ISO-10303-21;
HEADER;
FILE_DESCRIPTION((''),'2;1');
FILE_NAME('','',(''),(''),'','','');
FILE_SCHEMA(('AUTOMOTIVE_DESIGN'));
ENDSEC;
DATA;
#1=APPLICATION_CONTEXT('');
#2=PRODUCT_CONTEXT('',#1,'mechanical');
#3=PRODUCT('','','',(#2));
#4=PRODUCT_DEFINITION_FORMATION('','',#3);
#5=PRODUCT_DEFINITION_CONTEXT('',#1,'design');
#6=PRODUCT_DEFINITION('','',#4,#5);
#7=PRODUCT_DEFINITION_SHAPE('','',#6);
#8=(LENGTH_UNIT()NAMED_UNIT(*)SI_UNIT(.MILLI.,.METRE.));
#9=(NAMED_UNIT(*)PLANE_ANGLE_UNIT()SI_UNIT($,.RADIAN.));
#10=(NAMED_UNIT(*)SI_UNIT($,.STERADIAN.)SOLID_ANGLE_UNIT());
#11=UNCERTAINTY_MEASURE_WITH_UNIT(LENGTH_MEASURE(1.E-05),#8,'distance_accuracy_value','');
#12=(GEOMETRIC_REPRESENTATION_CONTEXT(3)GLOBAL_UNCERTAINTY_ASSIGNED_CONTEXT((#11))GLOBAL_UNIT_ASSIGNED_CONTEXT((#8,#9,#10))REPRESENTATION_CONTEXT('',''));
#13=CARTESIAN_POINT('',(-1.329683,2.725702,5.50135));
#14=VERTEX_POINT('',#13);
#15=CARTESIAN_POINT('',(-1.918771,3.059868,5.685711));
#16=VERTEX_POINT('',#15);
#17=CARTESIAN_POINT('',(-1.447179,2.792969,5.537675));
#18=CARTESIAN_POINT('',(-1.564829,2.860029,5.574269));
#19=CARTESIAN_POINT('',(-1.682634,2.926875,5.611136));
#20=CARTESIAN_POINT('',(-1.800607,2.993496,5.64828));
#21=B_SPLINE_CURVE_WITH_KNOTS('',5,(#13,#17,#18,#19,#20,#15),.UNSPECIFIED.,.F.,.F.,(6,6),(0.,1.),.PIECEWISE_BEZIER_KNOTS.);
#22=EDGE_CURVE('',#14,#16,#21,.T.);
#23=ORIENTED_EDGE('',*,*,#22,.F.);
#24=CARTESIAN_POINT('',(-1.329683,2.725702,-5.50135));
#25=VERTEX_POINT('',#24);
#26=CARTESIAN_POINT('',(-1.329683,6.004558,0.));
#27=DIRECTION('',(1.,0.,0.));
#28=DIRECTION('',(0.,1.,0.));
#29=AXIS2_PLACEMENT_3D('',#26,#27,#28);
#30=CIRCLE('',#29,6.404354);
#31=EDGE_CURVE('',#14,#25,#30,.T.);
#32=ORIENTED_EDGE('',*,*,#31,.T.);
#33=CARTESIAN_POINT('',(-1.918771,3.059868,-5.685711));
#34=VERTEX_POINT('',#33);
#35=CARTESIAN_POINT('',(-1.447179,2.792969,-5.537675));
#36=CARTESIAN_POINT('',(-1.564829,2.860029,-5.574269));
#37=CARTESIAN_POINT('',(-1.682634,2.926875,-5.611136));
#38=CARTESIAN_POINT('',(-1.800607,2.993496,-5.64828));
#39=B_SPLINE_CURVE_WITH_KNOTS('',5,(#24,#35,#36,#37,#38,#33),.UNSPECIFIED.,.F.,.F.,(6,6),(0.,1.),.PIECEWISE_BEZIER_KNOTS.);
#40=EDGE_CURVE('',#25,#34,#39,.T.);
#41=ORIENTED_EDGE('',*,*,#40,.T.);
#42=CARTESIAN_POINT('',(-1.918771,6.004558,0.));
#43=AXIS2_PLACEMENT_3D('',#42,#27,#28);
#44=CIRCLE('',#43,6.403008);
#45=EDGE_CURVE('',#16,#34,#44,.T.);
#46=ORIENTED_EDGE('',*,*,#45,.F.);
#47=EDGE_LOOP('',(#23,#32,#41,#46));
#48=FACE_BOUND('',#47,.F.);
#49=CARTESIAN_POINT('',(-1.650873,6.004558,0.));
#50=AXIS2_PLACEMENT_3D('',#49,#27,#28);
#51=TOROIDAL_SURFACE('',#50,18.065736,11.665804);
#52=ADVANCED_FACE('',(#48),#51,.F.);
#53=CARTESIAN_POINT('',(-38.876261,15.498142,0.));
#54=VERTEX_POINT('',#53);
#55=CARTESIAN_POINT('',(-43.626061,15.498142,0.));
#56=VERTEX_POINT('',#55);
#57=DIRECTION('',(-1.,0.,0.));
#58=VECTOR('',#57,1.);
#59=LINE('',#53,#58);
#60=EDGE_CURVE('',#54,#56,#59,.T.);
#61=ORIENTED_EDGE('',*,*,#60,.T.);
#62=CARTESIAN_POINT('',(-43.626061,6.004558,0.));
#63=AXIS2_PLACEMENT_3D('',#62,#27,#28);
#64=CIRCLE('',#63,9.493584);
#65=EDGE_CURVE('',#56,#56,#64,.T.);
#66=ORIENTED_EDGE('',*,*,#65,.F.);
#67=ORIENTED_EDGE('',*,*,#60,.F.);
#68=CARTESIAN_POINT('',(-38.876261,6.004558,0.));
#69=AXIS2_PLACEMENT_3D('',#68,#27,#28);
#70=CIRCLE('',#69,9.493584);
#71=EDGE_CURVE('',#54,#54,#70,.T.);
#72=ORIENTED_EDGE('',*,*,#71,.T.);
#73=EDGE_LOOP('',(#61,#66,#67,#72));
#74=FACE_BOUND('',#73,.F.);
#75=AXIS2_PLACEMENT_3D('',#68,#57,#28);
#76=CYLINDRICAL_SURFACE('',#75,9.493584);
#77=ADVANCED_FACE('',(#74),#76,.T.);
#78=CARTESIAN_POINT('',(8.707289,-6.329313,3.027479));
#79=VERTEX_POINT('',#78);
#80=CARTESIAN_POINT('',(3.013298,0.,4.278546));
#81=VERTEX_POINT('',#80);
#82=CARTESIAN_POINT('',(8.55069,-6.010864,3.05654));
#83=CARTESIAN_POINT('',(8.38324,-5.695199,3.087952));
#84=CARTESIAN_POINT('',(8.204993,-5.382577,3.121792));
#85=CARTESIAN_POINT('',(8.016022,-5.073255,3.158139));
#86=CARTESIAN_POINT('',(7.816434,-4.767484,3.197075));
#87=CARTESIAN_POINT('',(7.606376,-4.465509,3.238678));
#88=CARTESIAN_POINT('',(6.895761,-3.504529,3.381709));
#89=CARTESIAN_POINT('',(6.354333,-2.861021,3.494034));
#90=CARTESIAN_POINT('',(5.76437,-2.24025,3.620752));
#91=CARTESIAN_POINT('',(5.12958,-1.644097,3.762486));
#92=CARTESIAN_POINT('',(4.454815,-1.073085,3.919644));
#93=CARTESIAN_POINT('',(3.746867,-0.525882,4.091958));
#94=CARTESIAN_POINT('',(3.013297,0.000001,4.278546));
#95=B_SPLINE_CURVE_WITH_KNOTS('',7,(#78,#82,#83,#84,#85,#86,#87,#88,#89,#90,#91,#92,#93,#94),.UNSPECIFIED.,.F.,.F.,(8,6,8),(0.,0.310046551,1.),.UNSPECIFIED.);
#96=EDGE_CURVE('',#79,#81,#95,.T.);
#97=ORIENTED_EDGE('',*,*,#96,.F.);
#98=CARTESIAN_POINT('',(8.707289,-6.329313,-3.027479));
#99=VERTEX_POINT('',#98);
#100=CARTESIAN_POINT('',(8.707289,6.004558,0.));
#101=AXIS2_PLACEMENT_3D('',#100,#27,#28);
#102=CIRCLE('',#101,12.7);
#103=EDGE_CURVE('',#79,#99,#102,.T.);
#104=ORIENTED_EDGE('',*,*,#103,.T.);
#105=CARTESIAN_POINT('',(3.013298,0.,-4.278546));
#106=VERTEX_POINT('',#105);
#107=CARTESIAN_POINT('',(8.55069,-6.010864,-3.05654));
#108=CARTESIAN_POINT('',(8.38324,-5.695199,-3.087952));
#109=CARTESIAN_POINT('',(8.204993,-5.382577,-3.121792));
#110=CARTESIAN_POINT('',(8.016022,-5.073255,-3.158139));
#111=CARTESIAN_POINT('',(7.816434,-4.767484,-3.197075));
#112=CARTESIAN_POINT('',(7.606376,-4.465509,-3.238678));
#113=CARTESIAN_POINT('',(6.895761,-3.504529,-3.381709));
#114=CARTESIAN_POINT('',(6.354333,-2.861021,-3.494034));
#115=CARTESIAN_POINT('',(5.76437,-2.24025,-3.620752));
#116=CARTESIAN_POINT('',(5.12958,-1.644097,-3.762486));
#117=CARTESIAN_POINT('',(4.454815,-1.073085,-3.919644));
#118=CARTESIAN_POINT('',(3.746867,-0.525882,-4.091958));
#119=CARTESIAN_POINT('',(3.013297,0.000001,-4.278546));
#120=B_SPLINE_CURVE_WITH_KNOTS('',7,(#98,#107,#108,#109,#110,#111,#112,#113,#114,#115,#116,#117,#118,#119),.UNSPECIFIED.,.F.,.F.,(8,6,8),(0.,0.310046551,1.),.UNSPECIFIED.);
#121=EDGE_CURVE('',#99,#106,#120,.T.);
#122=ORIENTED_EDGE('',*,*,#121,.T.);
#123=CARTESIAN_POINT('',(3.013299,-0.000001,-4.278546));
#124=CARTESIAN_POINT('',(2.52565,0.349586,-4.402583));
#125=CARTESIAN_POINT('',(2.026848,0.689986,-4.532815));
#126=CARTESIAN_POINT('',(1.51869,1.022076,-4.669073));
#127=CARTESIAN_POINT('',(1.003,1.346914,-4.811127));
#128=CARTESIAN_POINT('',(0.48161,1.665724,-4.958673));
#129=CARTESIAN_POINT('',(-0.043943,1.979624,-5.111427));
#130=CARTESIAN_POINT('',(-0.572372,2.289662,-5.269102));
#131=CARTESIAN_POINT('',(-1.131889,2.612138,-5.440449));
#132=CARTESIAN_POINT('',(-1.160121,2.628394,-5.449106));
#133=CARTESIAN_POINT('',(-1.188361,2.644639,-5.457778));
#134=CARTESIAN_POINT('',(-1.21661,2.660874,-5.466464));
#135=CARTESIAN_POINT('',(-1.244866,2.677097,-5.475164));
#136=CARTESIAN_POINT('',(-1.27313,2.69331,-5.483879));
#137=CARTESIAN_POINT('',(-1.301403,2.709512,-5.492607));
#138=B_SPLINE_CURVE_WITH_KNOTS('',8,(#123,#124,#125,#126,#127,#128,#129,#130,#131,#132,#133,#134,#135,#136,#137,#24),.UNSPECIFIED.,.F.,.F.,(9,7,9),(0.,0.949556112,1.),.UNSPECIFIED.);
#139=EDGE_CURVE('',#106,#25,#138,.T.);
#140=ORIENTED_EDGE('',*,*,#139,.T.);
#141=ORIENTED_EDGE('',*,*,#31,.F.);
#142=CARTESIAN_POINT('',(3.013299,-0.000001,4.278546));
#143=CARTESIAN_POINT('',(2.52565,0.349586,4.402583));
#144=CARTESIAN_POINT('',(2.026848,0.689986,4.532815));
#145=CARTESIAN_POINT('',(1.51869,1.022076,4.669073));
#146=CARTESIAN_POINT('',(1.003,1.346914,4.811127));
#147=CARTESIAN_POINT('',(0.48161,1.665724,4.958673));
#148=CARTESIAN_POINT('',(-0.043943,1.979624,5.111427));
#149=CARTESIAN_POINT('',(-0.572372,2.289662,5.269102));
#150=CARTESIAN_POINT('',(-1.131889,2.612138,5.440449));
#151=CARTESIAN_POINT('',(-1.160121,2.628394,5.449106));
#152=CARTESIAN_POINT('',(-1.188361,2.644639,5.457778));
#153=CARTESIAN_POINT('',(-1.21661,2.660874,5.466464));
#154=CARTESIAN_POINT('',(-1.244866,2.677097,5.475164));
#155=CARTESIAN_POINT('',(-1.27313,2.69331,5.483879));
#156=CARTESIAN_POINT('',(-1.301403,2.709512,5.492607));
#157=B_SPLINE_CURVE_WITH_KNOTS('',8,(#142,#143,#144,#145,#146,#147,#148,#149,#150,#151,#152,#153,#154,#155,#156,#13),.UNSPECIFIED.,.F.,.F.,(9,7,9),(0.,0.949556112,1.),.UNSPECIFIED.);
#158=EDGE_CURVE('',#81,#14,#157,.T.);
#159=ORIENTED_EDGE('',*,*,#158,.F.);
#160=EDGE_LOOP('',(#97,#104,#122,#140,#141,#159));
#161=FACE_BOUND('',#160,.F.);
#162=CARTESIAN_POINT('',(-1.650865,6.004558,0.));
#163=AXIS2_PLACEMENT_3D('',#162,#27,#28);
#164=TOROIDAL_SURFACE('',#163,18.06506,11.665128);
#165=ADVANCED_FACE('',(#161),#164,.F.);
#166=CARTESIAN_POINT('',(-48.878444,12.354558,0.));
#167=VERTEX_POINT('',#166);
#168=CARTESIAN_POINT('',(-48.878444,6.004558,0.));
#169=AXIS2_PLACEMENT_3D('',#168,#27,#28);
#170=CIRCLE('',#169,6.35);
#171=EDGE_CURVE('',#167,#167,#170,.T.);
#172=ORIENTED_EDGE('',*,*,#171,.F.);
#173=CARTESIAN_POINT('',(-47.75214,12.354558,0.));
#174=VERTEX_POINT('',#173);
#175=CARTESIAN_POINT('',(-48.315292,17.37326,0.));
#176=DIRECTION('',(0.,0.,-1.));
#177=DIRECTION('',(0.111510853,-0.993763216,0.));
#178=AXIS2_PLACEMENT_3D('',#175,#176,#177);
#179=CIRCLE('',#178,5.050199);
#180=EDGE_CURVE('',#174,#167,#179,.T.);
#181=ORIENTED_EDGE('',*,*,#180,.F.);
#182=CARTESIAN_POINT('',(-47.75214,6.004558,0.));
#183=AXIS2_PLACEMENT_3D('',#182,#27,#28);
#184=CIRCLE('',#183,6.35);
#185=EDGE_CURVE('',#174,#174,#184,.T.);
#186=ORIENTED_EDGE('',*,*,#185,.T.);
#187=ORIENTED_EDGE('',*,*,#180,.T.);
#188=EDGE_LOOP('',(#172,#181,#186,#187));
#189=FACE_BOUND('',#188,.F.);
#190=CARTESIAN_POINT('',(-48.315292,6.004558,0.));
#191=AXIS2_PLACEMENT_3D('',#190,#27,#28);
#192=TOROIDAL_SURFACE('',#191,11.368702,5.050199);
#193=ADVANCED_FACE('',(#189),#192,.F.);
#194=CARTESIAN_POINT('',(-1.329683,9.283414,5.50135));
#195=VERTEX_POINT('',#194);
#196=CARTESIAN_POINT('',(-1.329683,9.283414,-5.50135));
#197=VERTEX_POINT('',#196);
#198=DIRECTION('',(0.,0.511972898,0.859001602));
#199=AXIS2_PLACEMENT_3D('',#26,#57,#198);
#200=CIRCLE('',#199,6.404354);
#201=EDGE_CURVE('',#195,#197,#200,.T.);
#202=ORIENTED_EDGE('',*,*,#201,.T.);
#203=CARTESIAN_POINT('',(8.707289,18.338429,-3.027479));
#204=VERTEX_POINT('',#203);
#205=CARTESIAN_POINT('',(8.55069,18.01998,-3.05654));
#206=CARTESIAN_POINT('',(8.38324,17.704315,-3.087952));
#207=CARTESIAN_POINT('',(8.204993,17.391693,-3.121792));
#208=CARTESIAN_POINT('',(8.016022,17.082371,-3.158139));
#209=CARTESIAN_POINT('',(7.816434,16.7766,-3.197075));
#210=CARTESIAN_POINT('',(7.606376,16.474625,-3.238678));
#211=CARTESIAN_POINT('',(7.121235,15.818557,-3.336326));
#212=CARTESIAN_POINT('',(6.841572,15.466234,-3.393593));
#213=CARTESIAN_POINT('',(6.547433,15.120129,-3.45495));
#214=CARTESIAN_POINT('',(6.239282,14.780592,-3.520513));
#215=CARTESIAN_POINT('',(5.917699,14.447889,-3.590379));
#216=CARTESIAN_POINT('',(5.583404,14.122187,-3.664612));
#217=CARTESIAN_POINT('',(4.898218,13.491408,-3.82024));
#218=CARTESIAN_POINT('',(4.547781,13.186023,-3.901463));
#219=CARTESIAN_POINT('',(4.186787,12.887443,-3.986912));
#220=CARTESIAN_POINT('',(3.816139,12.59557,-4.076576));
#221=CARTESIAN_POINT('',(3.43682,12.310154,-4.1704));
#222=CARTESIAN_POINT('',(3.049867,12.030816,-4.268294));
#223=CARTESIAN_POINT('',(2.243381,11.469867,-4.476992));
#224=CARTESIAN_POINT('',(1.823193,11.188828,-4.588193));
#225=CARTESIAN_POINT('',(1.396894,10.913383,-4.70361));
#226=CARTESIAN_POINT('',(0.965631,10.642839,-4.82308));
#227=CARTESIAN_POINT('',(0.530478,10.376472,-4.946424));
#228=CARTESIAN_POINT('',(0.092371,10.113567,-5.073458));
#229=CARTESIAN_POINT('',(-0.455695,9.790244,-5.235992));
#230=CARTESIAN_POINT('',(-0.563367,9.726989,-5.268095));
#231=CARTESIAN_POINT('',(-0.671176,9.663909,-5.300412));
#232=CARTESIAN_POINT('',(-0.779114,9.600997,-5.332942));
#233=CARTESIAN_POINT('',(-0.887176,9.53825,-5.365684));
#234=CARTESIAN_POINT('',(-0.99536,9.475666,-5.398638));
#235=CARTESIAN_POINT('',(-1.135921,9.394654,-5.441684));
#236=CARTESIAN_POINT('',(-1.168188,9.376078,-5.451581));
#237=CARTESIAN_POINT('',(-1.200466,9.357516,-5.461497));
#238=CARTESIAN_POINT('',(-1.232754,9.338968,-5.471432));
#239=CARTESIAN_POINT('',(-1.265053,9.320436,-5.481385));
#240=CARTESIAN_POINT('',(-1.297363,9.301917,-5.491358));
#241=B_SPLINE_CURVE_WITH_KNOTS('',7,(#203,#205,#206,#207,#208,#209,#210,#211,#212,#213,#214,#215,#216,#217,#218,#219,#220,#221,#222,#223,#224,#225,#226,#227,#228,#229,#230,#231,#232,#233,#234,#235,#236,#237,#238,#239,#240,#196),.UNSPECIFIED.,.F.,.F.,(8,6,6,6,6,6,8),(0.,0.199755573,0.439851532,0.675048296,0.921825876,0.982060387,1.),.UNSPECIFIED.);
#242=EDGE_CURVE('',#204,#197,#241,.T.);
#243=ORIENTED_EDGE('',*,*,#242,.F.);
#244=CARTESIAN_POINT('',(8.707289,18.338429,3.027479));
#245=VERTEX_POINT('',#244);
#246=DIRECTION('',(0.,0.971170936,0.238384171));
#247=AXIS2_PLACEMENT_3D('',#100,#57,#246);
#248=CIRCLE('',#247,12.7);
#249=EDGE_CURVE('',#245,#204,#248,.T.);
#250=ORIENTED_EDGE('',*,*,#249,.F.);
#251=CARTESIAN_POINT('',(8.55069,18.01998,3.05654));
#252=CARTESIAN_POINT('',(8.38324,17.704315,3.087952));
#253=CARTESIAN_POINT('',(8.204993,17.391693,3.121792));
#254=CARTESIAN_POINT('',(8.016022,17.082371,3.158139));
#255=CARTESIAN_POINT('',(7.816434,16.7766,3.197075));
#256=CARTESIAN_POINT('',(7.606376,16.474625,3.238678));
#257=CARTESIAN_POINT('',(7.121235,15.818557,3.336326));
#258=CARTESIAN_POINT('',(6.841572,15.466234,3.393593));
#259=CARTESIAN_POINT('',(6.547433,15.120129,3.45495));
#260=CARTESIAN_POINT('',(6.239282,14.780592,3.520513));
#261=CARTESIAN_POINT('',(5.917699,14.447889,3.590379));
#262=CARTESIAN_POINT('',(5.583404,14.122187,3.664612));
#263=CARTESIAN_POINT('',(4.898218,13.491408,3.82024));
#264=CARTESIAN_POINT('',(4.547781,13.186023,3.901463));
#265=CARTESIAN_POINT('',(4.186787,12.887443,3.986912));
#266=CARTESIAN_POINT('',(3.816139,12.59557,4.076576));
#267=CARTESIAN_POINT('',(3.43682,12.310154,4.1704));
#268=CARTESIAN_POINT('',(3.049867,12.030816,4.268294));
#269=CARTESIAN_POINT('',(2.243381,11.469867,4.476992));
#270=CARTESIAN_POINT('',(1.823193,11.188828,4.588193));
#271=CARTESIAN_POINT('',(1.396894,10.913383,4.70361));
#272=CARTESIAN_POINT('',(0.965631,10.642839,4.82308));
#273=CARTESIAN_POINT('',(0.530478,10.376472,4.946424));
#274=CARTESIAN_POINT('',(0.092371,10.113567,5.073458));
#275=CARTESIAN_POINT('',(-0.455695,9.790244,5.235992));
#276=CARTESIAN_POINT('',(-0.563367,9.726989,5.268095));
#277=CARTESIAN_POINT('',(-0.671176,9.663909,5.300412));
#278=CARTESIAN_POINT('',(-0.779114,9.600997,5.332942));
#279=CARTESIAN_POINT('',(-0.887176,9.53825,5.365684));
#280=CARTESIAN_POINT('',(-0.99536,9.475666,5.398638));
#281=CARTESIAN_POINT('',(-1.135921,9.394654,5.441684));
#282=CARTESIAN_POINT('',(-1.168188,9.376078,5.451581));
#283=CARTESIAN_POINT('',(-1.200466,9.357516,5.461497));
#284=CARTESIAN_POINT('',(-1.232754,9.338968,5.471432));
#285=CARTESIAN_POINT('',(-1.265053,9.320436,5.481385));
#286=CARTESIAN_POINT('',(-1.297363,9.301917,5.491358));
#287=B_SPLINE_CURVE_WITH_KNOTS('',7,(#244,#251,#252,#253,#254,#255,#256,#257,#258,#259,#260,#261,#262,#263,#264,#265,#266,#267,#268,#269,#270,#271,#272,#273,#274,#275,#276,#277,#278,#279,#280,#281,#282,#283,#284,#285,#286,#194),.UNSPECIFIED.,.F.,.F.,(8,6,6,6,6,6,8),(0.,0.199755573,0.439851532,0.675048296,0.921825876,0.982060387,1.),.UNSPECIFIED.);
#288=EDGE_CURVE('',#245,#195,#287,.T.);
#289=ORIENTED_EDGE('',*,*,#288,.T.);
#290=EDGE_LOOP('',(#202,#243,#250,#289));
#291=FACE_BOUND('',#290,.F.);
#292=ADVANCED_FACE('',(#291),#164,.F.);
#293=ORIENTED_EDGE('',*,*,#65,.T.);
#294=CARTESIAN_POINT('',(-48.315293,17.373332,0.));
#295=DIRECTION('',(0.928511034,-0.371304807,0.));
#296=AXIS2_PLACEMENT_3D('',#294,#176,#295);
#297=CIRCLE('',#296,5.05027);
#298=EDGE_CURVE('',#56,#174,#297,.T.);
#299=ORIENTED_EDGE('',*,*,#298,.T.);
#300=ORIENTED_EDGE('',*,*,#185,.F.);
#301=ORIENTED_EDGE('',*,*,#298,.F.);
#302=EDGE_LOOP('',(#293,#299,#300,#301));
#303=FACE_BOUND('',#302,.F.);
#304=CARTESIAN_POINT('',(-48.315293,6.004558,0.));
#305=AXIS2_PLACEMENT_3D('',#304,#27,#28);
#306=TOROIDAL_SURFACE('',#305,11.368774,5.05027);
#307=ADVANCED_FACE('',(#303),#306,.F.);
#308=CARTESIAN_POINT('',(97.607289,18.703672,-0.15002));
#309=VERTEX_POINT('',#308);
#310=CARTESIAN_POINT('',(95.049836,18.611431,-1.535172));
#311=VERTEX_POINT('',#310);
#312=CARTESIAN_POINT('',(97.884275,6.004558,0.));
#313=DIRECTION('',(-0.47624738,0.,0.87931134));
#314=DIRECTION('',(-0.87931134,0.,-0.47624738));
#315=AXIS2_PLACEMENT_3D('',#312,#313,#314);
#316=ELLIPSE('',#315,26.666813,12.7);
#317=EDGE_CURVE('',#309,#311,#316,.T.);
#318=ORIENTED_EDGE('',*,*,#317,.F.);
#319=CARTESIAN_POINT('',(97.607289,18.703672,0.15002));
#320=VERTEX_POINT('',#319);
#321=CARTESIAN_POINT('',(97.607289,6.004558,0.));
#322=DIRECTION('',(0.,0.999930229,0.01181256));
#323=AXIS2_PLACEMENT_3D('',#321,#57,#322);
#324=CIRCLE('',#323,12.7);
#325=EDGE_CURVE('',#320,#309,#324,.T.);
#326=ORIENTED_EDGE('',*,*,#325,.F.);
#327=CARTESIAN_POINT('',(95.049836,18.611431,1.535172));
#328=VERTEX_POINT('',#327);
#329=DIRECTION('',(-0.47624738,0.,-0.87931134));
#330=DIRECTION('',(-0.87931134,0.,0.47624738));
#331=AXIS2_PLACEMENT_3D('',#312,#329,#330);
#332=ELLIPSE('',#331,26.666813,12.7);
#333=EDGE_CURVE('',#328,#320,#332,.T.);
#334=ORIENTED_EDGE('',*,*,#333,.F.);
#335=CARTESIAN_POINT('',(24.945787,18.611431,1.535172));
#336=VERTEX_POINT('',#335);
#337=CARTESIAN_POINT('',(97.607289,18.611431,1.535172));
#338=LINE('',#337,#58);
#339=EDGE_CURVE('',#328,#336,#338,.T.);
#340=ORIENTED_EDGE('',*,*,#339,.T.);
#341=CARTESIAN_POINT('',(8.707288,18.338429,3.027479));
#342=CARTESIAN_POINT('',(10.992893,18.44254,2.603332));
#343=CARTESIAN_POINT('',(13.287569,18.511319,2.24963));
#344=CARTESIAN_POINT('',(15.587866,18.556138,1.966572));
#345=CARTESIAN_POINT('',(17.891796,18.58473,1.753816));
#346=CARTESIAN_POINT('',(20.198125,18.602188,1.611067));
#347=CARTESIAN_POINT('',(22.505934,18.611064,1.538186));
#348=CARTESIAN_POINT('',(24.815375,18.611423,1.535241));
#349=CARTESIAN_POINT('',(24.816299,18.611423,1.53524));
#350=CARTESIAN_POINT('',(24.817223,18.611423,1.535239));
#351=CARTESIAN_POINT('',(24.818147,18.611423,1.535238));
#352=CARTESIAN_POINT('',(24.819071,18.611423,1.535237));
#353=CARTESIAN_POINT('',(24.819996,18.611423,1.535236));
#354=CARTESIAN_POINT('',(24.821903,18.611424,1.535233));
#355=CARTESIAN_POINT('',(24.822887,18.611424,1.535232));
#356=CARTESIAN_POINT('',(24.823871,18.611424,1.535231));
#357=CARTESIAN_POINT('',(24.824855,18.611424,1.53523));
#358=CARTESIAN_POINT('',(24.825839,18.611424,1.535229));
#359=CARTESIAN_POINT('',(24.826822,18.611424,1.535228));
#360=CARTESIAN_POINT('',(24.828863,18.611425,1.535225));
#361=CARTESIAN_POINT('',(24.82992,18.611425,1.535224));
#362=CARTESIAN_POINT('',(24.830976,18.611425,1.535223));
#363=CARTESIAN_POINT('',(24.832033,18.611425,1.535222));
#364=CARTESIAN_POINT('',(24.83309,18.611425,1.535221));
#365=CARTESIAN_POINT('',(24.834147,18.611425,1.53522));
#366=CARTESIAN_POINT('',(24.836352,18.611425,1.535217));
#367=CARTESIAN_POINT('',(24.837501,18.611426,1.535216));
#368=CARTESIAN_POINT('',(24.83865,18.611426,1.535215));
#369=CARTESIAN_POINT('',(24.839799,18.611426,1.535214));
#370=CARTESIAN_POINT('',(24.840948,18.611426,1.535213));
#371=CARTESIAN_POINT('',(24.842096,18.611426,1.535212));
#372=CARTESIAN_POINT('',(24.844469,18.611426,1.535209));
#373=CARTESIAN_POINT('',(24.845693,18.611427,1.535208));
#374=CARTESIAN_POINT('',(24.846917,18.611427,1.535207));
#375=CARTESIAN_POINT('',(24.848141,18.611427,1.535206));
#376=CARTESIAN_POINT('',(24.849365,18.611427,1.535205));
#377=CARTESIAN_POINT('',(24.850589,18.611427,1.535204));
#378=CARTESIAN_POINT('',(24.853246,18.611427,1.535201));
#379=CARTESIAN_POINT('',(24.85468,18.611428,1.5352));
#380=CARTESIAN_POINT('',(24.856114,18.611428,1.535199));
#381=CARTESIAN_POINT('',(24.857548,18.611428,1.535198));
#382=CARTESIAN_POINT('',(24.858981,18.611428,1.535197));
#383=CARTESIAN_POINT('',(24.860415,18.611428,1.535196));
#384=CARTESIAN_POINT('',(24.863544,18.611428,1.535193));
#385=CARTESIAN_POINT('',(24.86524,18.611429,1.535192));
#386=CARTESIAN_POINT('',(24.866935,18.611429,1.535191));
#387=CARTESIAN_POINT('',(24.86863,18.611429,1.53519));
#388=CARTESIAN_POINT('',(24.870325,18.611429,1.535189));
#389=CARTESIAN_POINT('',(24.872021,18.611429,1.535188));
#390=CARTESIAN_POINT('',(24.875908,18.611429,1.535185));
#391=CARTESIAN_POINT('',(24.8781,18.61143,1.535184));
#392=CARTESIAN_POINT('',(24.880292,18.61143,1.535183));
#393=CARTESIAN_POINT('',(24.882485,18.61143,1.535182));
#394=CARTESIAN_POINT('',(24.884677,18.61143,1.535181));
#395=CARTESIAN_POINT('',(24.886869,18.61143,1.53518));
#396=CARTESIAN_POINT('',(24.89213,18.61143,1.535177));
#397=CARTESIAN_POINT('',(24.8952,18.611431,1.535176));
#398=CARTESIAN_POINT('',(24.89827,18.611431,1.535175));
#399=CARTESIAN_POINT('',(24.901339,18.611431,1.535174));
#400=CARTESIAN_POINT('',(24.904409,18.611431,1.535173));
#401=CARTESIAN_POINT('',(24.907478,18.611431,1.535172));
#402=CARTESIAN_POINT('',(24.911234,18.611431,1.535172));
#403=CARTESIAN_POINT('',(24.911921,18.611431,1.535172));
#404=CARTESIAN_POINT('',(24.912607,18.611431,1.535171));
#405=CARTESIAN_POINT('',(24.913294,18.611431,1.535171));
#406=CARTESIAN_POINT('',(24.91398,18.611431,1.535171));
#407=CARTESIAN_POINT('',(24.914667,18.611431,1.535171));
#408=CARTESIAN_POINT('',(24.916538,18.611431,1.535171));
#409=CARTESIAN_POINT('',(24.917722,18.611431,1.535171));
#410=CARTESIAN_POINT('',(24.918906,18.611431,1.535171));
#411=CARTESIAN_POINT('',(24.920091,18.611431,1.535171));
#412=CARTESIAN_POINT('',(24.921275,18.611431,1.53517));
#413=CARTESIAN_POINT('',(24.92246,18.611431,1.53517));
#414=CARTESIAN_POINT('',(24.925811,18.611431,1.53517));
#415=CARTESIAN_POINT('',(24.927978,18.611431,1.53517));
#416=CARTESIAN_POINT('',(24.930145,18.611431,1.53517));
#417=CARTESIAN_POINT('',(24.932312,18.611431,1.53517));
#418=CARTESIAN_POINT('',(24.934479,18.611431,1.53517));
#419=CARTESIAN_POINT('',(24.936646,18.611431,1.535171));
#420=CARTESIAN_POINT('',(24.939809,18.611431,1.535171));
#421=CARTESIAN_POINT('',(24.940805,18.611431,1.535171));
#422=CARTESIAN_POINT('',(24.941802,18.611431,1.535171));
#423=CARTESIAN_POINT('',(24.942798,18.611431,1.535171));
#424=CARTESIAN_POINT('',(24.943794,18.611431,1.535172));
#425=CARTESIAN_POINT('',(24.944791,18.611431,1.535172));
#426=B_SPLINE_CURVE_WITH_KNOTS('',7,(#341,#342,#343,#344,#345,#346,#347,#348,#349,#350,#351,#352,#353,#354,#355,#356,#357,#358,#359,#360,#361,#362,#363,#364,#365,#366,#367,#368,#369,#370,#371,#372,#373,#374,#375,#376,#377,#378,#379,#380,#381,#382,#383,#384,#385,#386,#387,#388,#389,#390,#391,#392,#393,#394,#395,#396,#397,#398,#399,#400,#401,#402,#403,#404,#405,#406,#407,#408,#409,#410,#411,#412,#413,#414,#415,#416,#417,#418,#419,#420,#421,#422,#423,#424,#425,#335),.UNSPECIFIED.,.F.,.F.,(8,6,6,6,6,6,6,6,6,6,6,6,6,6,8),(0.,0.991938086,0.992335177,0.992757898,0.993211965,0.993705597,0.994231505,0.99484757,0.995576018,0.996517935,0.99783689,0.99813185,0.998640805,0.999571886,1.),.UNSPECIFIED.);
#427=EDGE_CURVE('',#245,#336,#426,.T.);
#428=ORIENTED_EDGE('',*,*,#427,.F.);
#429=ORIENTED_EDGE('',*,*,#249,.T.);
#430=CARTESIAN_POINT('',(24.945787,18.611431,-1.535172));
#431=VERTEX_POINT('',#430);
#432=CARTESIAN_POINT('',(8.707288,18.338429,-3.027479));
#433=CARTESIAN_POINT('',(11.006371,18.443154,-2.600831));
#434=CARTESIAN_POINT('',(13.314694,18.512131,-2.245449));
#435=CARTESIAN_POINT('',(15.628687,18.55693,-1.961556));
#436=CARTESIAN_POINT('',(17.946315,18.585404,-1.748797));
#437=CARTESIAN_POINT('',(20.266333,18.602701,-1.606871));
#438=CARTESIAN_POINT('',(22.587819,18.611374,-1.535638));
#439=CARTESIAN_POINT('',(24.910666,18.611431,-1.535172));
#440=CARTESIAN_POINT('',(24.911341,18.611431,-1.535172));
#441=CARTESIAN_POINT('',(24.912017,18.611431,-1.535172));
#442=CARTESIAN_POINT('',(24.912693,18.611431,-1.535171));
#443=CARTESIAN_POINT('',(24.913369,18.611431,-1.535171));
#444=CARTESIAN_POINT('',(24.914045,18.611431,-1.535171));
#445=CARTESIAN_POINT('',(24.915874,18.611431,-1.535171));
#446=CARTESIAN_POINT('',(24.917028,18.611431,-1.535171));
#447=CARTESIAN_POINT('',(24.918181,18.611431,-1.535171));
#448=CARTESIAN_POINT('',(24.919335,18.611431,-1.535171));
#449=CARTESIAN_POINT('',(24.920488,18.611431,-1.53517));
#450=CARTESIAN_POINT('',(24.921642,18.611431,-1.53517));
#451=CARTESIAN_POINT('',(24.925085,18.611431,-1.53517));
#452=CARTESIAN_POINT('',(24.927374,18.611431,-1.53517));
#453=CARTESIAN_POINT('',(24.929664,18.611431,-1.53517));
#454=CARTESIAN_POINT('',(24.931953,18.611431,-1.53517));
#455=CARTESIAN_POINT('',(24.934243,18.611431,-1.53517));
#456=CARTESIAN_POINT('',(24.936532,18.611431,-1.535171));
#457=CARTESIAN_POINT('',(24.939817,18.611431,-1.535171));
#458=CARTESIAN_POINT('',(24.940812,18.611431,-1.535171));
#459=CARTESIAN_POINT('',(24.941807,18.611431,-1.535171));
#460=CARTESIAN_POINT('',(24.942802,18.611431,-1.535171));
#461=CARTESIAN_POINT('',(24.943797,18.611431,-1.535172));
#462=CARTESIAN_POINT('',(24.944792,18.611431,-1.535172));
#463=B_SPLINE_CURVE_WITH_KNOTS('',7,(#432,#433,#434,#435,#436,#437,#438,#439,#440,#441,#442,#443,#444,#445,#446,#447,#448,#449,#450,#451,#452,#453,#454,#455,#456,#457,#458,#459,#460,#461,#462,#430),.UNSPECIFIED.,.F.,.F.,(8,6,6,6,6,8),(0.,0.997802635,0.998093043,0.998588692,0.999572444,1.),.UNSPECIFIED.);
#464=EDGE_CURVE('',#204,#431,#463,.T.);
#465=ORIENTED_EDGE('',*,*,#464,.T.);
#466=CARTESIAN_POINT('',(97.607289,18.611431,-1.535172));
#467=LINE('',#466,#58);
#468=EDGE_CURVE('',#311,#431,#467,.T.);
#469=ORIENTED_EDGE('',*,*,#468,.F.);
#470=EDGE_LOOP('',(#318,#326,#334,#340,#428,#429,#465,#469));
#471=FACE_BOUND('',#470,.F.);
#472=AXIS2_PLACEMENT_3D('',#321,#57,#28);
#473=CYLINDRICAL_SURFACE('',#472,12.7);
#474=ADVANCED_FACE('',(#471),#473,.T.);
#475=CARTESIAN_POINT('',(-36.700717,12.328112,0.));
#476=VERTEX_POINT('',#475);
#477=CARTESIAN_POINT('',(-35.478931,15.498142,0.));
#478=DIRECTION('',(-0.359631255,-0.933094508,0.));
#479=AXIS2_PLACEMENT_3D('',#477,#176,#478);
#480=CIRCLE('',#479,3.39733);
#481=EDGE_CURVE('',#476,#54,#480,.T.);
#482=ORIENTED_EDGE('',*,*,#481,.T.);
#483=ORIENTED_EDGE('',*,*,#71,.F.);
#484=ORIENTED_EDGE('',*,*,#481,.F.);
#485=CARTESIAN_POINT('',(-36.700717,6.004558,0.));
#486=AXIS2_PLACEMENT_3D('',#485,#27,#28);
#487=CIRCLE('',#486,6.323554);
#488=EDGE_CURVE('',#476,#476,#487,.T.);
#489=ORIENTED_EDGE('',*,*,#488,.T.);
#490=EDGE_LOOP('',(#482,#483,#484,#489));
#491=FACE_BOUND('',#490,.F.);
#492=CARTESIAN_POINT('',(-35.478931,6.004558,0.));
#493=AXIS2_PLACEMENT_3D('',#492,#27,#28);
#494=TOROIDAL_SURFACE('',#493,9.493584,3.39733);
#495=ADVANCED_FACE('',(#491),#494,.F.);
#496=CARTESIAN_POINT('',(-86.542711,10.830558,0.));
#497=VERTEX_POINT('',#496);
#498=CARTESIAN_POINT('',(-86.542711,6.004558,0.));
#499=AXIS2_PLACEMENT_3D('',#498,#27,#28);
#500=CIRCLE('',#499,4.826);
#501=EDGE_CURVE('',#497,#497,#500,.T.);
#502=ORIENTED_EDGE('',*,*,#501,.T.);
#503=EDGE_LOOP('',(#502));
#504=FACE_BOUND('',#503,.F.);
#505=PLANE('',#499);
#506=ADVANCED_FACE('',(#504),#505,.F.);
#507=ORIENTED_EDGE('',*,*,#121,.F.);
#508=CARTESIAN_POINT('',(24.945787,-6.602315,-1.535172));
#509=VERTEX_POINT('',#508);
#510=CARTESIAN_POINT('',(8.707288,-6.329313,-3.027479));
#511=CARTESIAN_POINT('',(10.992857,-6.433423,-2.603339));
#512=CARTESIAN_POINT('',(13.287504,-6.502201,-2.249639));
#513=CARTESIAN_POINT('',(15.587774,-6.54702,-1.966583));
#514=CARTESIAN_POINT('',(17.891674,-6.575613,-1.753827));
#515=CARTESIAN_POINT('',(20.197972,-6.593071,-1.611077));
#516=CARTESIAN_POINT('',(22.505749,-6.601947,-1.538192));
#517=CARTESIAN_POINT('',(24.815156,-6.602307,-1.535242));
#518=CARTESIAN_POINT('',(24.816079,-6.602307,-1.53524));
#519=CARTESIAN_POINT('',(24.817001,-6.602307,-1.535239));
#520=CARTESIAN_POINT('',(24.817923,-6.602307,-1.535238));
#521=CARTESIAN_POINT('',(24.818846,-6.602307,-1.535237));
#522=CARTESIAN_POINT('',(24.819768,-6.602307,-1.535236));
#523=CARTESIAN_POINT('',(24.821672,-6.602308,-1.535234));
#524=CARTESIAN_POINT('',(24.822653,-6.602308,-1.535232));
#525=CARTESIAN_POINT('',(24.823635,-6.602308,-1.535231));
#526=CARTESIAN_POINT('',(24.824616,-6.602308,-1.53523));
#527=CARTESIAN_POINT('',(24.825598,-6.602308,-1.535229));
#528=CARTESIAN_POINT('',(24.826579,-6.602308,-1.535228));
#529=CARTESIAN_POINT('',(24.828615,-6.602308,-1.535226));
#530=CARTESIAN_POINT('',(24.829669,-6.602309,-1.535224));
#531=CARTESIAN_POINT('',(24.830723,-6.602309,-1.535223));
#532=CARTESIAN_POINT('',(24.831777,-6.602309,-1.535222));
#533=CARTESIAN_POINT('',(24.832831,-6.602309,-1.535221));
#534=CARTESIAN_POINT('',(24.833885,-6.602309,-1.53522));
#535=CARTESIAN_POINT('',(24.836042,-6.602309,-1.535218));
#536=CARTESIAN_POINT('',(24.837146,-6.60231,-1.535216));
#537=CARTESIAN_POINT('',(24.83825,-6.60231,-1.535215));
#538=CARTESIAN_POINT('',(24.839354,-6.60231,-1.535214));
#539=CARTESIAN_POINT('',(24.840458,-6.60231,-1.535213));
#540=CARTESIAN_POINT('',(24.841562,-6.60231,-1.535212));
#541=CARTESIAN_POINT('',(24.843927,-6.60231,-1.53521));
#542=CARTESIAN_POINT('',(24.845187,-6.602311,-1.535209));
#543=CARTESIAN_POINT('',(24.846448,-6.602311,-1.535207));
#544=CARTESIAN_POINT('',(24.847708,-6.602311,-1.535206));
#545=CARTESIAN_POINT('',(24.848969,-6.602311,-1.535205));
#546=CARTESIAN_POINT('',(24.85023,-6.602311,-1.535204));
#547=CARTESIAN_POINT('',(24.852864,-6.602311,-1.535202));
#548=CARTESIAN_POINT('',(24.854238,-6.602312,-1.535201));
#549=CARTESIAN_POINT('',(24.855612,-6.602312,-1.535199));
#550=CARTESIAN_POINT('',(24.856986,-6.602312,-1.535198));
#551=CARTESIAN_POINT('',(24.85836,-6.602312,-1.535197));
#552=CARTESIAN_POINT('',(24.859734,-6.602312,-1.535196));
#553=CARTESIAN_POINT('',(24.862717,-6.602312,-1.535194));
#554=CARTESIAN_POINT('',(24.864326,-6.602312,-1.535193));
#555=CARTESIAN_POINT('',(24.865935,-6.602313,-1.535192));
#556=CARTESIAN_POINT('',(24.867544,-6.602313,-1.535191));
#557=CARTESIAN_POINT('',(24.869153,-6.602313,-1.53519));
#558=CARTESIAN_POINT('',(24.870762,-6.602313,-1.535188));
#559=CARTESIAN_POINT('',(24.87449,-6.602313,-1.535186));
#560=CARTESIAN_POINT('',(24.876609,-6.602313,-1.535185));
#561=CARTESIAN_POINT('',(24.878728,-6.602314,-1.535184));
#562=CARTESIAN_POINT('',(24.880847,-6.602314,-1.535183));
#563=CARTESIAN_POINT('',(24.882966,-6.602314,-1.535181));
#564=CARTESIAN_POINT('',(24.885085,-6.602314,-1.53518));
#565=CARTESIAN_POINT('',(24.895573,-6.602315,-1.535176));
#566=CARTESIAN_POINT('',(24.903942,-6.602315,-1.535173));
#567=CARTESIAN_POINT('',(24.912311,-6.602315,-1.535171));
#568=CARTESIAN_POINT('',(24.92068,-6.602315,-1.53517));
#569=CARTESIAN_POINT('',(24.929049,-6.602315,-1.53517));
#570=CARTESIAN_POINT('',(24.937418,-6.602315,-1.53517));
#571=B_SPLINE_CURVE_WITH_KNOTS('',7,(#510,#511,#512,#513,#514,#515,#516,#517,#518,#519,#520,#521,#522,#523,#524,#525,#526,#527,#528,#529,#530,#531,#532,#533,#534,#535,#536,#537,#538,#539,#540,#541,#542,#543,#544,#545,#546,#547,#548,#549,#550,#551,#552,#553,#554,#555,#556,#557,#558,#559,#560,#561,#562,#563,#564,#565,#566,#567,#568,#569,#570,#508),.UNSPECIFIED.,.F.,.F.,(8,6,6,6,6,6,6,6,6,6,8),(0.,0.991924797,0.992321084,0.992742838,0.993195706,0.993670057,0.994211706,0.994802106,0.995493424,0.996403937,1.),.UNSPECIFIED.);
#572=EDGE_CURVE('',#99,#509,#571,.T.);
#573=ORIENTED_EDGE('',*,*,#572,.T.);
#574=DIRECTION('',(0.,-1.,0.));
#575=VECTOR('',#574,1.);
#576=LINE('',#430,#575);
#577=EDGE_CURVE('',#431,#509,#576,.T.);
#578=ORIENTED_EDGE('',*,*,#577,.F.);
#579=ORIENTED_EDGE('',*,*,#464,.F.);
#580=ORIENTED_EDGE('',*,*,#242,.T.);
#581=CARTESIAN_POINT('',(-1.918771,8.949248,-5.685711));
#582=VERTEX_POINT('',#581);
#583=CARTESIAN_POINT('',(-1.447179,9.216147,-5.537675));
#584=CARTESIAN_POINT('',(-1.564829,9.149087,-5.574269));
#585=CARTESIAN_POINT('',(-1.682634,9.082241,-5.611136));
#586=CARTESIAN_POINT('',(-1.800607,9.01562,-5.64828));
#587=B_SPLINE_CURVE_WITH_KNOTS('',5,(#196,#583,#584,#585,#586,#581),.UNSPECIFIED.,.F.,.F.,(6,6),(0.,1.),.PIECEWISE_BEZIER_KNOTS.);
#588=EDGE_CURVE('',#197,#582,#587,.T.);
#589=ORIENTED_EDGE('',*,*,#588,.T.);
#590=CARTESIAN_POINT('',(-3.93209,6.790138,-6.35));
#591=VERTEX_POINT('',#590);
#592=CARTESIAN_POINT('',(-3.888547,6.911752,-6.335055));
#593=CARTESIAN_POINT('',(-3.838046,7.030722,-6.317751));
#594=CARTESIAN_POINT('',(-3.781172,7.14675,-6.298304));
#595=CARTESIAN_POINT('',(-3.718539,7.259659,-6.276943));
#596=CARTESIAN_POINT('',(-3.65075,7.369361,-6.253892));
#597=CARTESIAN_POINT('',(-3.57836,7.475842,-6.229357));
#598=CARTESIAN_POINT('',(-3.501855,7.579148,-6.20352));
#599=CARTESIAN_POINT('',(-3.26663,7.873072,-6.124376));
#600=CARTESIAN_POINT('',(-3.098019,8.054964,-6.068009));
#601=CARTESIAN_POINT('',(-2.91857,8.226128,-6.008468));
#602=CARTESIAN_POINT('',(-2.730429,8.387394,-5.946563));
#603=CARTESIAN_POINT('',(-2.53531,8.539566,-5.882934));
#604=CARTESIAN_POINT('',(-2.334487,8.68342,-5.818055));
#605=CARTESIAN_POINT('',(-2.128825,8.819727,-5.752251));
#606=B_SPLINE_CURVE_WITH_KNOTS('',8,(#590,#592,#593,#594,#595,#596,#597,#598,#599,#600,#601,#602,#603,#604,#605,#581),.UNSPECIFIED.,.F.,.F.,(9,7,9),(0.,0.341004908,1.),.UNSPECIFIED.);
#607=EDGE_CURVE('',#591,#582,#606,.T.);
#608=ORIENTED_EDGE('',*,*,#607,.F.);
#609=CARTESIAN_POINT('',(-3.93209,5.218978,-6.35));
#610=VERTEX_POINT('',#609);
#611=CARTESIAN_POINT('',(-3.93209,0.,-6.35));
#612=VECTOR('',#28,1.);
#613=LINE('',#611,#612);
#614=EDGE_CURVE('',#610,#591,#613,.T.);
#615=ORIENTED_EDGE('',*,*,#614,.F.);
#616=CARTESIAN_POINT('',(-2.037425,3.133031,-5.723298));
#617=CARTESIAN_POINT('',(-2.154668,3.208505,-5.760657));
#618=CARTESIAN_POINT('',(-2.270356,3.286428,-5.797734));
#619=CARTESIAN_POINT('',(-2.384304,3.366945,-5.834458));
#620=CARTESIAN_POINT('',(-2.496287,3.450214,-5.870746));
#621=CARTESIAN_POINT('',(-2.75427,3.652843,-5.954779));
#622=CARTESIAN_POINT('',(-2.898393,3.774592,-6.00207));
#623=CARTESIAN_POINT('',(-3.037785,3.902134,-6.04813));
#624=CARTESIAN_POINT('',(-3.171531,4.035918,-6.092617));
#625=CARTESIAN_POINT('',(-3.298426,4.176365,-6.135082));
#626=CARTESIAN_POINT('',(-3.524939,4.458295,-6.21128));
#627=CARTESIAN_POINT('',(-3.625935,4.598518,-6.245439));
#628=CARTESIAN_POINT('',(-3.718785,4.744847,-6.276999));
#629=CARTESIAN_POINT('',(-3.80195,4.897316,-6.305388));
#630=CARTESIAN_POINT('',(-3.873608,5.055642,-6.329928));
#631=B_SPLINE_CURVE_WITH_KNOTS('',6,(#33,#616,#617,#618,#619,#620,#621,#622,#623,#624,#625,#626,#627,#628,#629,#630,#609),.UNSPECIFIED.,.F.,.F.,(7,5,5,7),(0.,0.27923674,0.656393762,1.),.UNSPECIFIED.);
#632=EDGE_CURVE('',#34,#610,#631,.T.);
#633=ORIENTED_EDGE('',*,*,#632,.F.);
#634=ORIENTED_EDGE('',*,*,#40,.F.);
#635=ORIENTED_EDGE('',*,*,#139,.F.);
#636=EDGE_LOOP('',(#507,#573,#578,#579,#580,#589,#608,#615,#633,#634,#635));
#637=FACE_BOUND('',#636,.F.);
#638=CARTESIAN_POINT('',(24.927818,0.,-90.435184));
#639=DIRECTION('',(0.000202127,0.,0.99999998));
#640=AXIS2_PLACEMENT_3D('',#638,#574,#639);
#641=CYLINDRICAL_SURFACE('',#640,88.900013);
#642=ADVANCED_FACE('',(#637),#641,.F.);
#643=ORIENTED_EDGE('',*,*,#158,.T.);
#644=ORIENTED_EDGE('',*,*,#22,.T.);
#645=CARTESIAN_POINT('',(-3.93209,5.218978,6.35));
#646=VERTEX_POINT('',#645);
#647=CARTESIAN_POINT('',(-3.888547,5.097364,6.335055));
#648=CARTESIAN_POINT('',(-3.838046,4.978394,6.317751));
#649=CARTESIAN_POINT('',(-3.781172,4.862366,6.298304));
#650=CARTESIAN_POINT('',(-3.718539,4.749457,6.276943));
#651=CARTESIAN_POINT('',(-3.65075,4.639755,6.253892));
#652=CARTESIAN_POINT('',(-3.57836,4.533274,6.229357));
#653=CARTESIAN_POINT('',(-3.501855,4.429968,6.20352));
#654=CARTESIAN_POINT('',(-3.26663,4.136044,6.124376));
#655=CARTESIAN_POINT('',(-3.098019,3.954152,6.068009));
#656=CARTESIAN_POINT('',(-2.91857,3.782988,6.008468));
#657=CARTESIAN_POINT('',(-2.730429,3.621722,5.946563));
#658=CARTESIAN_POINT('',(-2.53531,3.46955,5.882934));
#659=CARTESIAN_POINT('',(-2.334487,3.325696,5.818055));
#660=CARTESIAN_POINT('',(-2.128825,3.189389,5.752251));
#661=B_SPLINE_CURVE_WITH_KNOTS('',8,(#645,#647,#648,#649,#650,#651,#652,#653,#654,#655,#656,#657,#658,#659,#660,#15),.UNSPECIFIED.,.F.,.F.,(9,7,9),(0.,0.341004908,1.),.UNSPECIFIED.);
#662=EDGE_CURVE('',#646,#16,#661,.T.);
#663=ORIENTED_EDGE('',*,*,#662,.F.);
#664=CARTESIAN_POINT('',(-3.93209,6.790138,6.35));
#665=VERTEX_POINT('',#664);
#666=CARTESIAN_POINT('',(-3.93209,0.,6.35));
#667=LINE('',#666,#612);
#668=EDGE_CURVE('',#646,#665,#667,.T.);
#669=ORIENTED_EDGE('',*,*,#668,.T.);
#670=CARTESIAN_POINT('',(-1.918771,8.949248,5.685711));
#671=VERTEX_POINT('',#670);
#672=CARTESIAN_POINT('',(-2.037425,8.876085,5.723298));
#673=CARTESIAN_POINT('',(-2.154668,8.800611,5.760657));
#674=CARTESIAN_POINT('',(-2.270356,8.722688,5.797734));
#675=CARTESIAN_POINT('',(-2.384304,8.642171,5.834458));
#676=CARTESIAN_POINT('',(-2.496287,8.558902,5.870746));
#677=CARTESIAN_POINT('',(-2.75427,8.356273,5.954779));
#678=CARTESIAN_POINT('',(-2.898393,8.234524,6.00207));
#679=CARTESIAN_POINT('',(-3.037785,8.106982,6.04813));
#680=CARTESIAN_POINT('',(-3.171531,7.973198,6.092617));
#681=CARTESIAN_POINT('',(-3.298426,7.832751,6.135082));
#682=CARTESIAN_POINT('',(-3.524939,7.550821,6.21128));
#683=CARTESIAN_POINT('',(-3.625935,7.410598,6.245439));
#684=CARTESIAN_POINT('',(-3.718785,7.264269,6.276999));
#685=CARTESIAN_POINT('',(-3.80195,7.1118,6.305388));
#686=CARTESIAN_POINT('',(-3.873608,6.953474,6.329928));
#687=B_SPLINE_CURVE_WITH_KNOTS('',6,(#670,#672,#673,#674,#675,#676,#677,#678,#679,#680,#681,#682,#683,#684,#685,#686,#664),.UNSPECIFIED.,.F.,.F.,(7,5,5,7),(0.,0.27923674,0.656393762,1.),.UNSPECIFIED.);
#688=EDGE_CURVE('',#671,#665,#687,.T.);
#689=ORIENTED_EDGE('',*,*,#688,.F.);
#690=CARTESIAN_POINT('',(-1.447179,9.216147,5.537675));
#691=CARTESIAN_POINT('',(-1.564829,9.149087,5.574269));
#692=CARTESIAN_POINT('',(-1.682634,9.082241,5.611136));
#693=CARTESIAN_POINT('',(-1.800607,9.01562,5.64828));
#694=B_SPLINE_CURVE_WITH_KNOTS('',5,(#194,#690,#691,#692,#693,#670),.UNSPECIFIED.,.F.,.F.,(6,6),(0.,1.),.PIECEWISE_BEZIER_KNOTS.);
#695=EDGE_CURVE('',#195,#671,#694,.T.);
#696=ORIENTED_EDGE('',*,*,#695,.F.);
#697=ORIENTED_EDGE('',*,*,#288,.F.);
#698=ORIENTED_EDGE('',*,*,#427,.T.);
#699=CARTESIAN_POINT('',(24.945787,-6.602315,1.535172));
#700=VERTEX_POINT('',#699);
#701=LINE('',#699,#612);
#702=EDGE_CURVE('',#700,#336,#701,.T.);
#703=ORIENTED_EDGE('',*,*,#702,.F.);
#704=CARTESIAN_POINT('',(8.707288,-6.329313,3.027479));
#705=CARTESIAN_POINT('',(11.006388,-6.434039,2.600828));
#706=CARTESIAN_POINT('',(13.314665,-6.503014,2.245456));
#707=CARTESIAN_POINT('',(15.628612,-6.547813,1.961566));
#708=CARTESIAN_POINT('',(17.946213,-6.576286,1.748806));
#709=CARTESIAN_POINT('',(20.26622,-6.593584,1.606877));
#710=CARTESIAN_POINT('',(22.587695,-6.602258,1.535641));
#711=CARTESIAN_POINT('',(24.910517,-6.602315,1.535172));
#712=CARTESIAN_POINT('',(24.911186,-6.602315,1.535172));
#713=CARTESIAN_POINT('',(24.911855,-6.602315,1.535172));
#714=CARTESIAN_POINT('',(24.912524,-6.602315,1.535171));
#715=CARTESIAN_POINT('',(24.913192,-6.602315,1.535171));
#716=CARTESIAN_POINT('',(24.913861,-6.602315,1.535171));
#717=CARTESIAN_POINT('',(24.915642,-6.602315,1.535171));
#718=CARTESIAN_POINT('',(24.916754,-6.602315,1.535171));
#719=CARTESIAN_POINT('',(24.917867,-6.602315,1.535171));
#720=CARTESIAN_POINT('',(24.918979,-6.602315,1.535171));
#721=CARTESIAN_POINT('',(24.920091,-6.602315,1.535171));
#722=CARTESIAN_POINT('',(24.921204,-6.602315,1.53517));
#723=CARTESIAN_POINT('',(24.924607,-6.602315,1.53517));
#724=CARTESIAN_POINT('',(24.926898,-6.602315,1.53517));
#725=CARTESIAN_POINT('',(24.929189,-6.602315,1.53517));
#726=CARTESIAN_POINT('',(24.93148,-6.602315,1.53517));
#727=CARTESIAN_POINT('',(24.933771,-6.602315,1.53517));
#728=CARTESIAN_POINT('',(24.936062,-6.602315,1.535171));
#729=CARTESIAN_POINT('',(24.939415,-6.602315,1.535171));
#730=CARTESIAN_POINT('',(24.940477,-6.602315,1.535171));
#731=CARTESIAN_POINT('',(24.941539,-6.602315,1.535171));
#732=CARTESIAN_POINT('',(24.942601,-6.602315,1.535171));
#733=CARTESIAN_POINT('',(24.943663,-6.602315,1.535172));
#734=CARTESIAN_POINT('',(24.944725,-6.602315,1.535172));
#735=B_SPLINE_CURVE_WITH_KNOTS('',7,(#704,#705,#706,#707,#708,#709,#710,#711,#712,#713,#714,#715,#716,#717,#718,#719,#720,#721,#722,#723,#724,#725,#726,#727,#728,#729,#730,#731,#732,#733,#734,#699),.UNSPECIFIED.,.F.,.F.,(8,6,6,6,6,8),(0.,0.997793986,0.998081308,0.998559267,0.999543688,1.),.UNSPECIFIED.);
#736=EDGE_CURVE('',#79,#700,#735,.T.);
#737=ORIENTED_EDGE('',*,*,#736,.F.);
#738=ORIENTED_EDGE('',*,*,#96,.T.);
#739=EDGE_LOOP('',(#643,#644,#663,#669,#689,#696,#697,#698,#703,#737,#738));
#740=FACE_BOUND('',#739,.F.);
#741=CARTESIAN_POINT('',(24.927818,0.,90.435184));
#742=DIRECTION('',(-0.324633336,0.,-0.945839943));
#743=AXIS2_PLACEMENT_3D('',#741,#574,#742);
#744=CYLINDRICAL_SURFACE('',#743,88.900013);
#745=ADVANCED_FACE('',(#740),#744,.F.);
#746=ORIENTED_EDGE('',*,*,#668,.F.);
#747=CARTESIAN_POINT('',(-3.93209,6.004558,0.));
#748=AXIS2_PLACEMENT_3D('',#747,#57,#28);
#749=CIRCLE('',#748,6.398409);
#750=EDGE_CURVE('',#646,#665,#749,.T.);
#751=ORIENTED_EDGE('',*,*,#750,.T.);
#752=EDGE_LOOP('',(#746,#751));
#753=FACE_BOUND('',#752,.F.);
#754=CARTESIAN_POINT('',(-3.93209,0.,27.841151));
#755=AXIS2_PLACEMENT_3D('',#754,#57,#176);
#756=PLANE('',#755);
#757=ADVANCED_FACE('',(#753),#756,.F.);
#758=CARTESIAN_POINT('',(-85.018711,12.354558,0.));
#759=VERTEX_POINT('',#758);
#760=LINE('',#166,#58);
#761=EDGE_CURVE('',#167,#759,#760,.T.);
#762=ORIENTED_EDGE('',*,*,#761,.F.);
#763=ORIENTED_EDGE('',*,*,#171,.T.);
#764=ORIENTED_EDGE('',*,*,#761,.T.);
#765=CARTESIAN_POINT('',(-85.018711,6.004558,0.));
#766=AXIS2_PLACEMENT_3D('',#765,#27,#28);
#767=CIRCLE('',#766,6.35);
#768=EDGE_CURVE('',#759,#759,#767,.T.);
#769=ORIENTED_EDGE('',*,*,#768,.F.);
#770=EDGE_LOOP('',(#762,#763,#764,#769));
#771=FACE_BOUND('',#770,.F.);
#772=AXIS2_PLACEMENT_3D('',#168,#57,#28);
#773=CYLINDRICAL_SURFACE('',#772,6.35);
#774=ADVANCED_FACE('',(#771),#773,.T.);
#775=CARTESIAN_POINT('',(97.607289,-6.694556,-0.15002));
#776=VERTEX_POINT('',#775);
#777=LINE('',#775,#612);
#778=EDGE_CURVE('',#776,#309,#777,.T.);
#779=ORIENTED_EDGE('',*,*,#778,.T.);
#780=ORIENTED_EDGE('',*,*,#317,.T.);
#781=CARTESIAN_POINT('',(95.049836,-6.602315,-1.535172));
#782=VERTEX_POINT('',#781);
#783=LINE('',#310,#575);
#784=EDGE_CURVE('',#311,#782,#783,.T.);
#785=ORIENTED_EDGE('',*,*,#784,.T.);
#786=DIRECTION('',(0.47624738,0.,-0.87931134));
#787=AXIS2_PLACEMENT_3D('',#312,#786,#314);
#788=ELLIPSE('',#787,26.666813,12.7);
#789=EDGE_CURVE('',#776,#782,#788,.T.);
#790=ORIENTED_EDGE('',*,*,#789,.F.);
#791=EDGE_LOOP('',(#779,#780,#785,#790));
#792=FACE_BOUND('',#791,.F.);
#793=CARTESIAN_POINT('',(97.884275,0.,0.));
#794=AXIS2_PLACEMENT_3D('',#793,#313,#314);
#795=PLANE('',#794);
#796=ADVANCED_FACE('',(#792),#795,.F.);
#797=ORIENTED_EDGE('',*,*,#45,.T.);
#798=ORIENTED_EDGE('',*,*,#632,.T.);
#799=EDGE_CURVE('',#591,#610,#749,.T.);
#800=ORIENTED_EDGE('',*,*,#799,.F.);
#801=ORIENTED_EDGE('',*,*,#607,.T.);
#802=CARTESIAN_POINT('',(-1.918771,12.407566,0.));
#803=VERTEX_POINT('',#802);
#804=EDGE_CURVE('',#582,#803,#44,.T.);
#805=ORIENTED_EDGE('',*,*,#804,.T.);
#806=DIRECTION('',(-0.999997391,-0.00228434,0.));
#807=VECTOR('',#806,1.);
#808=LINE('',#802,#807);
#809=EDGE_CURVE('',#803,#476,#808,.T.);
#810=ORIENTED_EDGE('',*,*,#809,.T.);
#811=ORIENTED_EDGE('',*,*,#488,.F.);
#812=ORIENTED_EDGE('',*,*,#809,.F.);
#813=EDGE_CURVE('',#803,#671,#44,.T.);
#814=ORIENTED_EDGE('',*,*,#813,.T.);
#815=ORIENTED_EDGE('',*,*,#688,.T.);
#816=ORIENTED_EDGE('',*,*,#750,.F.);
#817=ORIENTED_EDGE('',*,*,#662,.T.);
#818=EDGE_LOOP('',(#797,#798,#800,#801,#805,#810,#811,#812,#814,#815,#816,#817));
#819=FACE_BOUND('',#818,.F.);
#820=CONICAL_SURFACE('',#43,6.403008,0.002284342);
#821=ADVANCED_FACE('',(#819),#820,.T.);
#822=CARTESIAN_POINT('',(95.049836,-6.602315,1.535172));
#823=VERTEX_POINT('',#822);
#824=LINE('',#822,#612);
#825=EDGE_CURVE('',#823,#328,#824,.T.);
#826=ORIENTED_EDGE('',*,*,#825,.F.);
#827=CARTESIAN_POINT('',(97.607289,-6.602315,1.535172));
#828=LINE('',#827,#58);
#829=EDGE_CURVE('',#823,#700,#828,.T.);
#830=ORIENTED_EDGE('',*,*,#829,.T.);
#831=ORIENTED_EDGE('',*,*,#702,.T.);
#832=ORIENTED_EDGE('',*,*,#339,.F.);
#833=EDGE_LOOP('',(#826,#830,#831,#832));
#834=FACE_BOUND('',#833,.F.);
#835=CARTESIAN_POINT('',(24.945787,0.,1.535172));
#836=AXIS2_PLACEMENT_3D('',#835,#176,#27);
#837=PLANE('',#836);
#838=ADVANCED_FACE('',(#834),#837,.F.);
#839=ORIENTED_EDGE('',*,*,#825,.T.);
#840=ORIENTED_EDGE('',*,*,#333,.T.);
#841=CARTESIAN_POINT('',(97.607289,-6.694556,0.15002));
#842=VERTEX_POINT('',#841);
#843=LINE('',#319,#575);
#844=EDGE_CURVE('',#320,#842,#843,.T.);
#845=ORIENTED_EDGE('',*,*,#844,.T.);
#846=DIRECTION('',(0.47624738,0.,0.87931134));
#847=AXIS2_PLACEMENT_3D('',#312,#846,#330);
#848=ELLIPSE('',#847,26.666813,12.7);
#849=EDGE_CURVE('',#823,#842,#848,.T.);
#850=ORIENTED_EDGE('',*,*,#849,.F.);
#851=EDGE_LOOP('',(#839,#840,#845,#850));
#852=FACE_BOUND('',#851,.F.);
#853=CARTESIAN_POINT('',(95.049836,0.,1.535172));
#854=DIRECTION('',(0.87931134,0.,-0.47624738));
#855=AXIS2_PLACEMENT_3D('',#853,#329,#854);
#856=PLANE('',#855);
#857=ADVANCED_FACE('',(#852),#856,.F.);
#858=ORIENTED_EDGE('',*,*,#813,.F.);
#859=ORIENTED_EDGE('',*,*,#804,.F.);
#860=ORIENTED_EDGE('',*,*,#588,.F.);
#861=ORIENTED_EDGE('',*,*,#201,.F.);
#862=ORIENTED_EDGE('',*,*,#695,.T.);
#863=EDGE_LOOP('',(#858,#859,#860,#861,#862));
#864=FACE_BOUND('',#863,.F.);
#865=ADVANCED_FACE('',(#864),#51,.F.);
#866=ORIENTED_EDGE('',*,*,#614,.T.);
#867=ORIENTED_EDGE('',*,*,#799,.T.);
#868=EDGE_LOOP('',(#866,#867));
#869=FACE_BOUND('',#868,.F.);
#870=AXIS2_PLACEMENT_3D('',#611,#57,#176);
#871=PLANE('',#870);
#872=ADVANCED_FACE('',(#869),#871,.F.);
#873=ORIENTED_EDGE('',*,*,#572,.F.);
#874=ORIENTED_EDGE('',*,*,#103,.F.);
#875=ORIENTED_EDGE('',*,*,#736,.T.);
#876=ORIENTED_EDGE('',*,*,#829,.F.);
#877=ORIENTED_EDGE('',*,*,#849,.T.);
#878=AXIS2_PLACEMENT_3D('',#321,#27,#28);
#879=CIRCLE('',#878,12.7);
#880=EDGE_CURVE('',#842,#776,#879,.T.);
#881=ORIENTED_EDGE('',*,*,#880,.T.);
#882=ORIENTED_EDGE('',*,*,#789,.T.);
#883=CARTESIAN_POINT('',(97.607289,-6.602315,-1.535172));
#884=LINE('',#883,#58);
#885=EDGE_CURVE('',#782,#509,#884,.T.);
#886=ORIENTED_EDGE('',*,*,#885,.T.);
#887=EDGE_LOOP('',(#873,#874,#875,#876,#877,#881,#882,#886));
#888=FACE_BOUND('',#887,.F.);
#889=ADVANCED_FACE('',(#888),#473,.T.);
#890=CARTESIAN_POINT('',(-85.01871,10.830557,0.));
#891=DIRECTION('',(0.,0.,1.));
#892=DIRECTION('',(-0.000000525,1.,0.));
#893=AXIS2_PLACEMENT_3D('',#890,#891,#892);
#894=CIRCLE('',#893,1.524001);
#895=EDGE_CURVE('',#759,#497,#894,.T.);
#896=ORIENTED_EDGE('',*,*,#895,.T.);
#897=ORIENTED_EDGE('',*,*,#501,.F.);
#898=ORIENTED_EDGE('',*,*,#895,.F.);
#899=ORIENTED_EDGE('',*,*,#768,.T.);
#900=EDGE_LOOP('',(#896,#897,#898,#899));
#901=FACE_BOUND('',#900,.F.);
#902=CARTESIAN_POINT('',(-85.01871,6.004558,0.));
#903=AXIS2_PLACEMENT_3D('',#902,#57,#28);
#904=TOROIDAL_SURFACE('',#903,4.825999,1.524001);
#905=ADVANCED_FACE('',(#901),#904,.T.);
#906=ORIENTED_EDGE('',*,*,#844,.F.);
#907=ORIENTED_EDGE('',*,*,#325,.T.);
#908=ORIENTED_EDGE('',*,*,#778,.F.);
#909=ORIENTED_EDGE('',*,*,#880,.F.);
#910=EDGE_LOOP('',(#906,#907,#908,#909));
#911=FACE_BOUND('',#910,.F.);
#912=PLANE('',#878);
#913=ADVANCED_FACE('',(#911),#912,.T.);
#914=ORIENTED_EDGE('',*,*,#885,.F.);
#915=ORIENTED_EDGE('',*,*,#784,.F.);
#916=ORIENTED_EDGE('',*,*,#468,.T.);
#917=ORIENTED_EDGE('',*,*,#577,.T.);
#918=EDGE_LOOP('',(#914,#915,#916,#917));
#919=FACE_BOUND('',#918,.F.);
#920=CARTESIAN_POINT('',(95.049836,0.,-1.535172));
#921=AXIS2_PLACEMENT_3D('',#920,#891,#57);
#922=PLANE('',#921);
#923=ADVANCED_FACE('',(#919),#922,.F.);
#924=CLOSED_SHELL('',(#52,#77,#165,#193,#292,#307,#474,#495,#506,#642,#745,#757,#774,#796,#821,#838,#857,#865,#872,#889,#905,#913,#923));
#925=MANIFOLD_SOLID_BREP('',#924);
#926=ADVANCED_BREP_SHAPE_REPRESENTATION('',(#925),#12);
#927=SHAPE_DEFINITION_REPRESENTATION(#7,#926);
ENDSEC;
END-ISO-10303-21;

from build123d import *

# Parameters (mm, degrees)
F3_DEPTH = 63.5
F4_DEPTH = 25.4


with BuildPart() as f1:
    # F0 (on Top) → F1 (revolve)
    with BuildSketch(Plane.XY):
        with BuildLine():
            Line((-86.542711, 10.830558), (-86.542711, 6.004558))
            Line((-86.542711, 6.004558), (97.607289, 6.004558))
            Line((97.607289, 6.004558), (97.607289, 18.704558))
            Line((97.607289, 18.704558), (8.707289, 18.704558))
            ThreePointArc((8.707289, 18.704558), (4.54759, 14.187595), (-1.329683, 12.408912))
            ThreePointArc((-1.329683, 12.408912), (-1.624219, 12.40452), (-1.918771, 12.407566))
            Line((-1.918771, 12.407566), (-36.700717, 12.328112))
            ThreePointArc((-36.700717, 12.328112), (-38.280061, 13.575768), (-38.876261, 15.498142))
            Line((-38.876261, 15.498142), (-43.626061, 15.498142))
            ThreePointArc((-43.626061, 15.498142), (-45.254669, 13.356142), (-47.75214, 12.354558))
            ThreePointArc((-47.75214, 12.354558), (-48.315292, 12.323061), (-48.878444, 12.354558))
            Line((-48.878444, 12.354558), (-85.018711, 12.354558))
            ThreePointArc((-85.018711, 12.354558), (-86.096341, 11.908189), (-86.542711, 10.830558))
        make_face()
    revolve(axis=Axis((5.532289, 6.004558, 0), (1, 0, 0)))

    # F2 (on Front) → F3 (cut)
    with BuildSketch(Plane.XZ):
        with BuildLine():
            Line((-3.93209, 27.841151), (-3.93209, 6.35))
            ThreePointArc((-3.93209, 6.35), (10.307284, 2.745661), (24.945787, 1.535172))
            Line((24.945787, 1.535172), (95.049836, 1.535172))
            Line((95.049836, 1.535172), (97.884275, 0))
            Line((97.884275, 0), (100.466569, 1.535172))
            Line((100.466569, 1.535172), (113.435097, 10.608604))
            Line((113.435097, 10.608604), (113.435097, 27.841151))
            Line((113.435097, 27.841151), (97.66791, 27.841151))
            Line((97.66791, 27.841151), (-3.93209, 27.841151))
        make_face()
        with BuildLine():
            Line((100.466569, -1.535172), (97.884275, 0))
            Line((97.884275, 0), (95.049836, -1.535172))
            Line((95.049836, -1.535172), (24.945787, -1.535172))
            ThreePointArc((24.945787, -1.535172), (10.307284, -2.745661), (-3.93209, -6.35))
            Line((-3.93209, -6.35), (-3.93209, -27.841151))
            Line((-3.93209, -27.841151), (113.435097, -27.841151))
            Line((113.435097, -27.841151), (113.435097, -10.608604))
            Line((113.435097, -10.608604), (100.466569, -1.535172))
        make_face()
    extrude(amount=-F3_DEPTH, mode=Mode.SUBTRACT)

    # F2 (on Front) → F4 (cut)
    with BuildSketch(Plane.XZ):
        with BuildLine():
            Line((-3.93209, 27.841151), (-3.93209, 6.35))
            ThreePointArc((-3.93209, 6.35), (10.307284, 2.745661), (24.945787, 1.535172))
            Line((24.945787, 1.535172), (95.049836, 1.535172))
            Line((95.049836, 1.535172), (97.884275, 0))
            Line((97.884275, 0), (100.466569, 1.535172))
            Line((100.466569, 1.535172), (113.435097, 10.608604))
            Line((113.435097, 10.608604), (113.435097, 27.841151))
            Line((113.435097, 27.841151), (97.66791, 27.841151))
            Line((97.66791, 27.841151), (-3.93209, 27.841151))
        make_face()
        with BuildLine():
            Line((100.466569, -1.535172), (97.884275, 0))
            Line((97.884275, 0), (95.049836, -1.535172))
            Line((95.049836, -1.535172), (24.945787, -1.535172))
            ThreePointArc((24.945787, -1.535172), (10.307284, -2.745661), (-3.93209, -6.35))
            Line((-3.93209, -6.35), (-3.93209, -27.841151))
            Line((-3.93209, -27.841151), (113.435097, -27.841151))
            Line((113.435097, -27.841151), (113.435097, -10.608604))
            Line((113.435097, -10.608604), (100.466569, -1.535172))
        make_face()
    extrude(amount=F4_DEPTH, mode=Mode.SUBTRACT)


solid = f1.part
